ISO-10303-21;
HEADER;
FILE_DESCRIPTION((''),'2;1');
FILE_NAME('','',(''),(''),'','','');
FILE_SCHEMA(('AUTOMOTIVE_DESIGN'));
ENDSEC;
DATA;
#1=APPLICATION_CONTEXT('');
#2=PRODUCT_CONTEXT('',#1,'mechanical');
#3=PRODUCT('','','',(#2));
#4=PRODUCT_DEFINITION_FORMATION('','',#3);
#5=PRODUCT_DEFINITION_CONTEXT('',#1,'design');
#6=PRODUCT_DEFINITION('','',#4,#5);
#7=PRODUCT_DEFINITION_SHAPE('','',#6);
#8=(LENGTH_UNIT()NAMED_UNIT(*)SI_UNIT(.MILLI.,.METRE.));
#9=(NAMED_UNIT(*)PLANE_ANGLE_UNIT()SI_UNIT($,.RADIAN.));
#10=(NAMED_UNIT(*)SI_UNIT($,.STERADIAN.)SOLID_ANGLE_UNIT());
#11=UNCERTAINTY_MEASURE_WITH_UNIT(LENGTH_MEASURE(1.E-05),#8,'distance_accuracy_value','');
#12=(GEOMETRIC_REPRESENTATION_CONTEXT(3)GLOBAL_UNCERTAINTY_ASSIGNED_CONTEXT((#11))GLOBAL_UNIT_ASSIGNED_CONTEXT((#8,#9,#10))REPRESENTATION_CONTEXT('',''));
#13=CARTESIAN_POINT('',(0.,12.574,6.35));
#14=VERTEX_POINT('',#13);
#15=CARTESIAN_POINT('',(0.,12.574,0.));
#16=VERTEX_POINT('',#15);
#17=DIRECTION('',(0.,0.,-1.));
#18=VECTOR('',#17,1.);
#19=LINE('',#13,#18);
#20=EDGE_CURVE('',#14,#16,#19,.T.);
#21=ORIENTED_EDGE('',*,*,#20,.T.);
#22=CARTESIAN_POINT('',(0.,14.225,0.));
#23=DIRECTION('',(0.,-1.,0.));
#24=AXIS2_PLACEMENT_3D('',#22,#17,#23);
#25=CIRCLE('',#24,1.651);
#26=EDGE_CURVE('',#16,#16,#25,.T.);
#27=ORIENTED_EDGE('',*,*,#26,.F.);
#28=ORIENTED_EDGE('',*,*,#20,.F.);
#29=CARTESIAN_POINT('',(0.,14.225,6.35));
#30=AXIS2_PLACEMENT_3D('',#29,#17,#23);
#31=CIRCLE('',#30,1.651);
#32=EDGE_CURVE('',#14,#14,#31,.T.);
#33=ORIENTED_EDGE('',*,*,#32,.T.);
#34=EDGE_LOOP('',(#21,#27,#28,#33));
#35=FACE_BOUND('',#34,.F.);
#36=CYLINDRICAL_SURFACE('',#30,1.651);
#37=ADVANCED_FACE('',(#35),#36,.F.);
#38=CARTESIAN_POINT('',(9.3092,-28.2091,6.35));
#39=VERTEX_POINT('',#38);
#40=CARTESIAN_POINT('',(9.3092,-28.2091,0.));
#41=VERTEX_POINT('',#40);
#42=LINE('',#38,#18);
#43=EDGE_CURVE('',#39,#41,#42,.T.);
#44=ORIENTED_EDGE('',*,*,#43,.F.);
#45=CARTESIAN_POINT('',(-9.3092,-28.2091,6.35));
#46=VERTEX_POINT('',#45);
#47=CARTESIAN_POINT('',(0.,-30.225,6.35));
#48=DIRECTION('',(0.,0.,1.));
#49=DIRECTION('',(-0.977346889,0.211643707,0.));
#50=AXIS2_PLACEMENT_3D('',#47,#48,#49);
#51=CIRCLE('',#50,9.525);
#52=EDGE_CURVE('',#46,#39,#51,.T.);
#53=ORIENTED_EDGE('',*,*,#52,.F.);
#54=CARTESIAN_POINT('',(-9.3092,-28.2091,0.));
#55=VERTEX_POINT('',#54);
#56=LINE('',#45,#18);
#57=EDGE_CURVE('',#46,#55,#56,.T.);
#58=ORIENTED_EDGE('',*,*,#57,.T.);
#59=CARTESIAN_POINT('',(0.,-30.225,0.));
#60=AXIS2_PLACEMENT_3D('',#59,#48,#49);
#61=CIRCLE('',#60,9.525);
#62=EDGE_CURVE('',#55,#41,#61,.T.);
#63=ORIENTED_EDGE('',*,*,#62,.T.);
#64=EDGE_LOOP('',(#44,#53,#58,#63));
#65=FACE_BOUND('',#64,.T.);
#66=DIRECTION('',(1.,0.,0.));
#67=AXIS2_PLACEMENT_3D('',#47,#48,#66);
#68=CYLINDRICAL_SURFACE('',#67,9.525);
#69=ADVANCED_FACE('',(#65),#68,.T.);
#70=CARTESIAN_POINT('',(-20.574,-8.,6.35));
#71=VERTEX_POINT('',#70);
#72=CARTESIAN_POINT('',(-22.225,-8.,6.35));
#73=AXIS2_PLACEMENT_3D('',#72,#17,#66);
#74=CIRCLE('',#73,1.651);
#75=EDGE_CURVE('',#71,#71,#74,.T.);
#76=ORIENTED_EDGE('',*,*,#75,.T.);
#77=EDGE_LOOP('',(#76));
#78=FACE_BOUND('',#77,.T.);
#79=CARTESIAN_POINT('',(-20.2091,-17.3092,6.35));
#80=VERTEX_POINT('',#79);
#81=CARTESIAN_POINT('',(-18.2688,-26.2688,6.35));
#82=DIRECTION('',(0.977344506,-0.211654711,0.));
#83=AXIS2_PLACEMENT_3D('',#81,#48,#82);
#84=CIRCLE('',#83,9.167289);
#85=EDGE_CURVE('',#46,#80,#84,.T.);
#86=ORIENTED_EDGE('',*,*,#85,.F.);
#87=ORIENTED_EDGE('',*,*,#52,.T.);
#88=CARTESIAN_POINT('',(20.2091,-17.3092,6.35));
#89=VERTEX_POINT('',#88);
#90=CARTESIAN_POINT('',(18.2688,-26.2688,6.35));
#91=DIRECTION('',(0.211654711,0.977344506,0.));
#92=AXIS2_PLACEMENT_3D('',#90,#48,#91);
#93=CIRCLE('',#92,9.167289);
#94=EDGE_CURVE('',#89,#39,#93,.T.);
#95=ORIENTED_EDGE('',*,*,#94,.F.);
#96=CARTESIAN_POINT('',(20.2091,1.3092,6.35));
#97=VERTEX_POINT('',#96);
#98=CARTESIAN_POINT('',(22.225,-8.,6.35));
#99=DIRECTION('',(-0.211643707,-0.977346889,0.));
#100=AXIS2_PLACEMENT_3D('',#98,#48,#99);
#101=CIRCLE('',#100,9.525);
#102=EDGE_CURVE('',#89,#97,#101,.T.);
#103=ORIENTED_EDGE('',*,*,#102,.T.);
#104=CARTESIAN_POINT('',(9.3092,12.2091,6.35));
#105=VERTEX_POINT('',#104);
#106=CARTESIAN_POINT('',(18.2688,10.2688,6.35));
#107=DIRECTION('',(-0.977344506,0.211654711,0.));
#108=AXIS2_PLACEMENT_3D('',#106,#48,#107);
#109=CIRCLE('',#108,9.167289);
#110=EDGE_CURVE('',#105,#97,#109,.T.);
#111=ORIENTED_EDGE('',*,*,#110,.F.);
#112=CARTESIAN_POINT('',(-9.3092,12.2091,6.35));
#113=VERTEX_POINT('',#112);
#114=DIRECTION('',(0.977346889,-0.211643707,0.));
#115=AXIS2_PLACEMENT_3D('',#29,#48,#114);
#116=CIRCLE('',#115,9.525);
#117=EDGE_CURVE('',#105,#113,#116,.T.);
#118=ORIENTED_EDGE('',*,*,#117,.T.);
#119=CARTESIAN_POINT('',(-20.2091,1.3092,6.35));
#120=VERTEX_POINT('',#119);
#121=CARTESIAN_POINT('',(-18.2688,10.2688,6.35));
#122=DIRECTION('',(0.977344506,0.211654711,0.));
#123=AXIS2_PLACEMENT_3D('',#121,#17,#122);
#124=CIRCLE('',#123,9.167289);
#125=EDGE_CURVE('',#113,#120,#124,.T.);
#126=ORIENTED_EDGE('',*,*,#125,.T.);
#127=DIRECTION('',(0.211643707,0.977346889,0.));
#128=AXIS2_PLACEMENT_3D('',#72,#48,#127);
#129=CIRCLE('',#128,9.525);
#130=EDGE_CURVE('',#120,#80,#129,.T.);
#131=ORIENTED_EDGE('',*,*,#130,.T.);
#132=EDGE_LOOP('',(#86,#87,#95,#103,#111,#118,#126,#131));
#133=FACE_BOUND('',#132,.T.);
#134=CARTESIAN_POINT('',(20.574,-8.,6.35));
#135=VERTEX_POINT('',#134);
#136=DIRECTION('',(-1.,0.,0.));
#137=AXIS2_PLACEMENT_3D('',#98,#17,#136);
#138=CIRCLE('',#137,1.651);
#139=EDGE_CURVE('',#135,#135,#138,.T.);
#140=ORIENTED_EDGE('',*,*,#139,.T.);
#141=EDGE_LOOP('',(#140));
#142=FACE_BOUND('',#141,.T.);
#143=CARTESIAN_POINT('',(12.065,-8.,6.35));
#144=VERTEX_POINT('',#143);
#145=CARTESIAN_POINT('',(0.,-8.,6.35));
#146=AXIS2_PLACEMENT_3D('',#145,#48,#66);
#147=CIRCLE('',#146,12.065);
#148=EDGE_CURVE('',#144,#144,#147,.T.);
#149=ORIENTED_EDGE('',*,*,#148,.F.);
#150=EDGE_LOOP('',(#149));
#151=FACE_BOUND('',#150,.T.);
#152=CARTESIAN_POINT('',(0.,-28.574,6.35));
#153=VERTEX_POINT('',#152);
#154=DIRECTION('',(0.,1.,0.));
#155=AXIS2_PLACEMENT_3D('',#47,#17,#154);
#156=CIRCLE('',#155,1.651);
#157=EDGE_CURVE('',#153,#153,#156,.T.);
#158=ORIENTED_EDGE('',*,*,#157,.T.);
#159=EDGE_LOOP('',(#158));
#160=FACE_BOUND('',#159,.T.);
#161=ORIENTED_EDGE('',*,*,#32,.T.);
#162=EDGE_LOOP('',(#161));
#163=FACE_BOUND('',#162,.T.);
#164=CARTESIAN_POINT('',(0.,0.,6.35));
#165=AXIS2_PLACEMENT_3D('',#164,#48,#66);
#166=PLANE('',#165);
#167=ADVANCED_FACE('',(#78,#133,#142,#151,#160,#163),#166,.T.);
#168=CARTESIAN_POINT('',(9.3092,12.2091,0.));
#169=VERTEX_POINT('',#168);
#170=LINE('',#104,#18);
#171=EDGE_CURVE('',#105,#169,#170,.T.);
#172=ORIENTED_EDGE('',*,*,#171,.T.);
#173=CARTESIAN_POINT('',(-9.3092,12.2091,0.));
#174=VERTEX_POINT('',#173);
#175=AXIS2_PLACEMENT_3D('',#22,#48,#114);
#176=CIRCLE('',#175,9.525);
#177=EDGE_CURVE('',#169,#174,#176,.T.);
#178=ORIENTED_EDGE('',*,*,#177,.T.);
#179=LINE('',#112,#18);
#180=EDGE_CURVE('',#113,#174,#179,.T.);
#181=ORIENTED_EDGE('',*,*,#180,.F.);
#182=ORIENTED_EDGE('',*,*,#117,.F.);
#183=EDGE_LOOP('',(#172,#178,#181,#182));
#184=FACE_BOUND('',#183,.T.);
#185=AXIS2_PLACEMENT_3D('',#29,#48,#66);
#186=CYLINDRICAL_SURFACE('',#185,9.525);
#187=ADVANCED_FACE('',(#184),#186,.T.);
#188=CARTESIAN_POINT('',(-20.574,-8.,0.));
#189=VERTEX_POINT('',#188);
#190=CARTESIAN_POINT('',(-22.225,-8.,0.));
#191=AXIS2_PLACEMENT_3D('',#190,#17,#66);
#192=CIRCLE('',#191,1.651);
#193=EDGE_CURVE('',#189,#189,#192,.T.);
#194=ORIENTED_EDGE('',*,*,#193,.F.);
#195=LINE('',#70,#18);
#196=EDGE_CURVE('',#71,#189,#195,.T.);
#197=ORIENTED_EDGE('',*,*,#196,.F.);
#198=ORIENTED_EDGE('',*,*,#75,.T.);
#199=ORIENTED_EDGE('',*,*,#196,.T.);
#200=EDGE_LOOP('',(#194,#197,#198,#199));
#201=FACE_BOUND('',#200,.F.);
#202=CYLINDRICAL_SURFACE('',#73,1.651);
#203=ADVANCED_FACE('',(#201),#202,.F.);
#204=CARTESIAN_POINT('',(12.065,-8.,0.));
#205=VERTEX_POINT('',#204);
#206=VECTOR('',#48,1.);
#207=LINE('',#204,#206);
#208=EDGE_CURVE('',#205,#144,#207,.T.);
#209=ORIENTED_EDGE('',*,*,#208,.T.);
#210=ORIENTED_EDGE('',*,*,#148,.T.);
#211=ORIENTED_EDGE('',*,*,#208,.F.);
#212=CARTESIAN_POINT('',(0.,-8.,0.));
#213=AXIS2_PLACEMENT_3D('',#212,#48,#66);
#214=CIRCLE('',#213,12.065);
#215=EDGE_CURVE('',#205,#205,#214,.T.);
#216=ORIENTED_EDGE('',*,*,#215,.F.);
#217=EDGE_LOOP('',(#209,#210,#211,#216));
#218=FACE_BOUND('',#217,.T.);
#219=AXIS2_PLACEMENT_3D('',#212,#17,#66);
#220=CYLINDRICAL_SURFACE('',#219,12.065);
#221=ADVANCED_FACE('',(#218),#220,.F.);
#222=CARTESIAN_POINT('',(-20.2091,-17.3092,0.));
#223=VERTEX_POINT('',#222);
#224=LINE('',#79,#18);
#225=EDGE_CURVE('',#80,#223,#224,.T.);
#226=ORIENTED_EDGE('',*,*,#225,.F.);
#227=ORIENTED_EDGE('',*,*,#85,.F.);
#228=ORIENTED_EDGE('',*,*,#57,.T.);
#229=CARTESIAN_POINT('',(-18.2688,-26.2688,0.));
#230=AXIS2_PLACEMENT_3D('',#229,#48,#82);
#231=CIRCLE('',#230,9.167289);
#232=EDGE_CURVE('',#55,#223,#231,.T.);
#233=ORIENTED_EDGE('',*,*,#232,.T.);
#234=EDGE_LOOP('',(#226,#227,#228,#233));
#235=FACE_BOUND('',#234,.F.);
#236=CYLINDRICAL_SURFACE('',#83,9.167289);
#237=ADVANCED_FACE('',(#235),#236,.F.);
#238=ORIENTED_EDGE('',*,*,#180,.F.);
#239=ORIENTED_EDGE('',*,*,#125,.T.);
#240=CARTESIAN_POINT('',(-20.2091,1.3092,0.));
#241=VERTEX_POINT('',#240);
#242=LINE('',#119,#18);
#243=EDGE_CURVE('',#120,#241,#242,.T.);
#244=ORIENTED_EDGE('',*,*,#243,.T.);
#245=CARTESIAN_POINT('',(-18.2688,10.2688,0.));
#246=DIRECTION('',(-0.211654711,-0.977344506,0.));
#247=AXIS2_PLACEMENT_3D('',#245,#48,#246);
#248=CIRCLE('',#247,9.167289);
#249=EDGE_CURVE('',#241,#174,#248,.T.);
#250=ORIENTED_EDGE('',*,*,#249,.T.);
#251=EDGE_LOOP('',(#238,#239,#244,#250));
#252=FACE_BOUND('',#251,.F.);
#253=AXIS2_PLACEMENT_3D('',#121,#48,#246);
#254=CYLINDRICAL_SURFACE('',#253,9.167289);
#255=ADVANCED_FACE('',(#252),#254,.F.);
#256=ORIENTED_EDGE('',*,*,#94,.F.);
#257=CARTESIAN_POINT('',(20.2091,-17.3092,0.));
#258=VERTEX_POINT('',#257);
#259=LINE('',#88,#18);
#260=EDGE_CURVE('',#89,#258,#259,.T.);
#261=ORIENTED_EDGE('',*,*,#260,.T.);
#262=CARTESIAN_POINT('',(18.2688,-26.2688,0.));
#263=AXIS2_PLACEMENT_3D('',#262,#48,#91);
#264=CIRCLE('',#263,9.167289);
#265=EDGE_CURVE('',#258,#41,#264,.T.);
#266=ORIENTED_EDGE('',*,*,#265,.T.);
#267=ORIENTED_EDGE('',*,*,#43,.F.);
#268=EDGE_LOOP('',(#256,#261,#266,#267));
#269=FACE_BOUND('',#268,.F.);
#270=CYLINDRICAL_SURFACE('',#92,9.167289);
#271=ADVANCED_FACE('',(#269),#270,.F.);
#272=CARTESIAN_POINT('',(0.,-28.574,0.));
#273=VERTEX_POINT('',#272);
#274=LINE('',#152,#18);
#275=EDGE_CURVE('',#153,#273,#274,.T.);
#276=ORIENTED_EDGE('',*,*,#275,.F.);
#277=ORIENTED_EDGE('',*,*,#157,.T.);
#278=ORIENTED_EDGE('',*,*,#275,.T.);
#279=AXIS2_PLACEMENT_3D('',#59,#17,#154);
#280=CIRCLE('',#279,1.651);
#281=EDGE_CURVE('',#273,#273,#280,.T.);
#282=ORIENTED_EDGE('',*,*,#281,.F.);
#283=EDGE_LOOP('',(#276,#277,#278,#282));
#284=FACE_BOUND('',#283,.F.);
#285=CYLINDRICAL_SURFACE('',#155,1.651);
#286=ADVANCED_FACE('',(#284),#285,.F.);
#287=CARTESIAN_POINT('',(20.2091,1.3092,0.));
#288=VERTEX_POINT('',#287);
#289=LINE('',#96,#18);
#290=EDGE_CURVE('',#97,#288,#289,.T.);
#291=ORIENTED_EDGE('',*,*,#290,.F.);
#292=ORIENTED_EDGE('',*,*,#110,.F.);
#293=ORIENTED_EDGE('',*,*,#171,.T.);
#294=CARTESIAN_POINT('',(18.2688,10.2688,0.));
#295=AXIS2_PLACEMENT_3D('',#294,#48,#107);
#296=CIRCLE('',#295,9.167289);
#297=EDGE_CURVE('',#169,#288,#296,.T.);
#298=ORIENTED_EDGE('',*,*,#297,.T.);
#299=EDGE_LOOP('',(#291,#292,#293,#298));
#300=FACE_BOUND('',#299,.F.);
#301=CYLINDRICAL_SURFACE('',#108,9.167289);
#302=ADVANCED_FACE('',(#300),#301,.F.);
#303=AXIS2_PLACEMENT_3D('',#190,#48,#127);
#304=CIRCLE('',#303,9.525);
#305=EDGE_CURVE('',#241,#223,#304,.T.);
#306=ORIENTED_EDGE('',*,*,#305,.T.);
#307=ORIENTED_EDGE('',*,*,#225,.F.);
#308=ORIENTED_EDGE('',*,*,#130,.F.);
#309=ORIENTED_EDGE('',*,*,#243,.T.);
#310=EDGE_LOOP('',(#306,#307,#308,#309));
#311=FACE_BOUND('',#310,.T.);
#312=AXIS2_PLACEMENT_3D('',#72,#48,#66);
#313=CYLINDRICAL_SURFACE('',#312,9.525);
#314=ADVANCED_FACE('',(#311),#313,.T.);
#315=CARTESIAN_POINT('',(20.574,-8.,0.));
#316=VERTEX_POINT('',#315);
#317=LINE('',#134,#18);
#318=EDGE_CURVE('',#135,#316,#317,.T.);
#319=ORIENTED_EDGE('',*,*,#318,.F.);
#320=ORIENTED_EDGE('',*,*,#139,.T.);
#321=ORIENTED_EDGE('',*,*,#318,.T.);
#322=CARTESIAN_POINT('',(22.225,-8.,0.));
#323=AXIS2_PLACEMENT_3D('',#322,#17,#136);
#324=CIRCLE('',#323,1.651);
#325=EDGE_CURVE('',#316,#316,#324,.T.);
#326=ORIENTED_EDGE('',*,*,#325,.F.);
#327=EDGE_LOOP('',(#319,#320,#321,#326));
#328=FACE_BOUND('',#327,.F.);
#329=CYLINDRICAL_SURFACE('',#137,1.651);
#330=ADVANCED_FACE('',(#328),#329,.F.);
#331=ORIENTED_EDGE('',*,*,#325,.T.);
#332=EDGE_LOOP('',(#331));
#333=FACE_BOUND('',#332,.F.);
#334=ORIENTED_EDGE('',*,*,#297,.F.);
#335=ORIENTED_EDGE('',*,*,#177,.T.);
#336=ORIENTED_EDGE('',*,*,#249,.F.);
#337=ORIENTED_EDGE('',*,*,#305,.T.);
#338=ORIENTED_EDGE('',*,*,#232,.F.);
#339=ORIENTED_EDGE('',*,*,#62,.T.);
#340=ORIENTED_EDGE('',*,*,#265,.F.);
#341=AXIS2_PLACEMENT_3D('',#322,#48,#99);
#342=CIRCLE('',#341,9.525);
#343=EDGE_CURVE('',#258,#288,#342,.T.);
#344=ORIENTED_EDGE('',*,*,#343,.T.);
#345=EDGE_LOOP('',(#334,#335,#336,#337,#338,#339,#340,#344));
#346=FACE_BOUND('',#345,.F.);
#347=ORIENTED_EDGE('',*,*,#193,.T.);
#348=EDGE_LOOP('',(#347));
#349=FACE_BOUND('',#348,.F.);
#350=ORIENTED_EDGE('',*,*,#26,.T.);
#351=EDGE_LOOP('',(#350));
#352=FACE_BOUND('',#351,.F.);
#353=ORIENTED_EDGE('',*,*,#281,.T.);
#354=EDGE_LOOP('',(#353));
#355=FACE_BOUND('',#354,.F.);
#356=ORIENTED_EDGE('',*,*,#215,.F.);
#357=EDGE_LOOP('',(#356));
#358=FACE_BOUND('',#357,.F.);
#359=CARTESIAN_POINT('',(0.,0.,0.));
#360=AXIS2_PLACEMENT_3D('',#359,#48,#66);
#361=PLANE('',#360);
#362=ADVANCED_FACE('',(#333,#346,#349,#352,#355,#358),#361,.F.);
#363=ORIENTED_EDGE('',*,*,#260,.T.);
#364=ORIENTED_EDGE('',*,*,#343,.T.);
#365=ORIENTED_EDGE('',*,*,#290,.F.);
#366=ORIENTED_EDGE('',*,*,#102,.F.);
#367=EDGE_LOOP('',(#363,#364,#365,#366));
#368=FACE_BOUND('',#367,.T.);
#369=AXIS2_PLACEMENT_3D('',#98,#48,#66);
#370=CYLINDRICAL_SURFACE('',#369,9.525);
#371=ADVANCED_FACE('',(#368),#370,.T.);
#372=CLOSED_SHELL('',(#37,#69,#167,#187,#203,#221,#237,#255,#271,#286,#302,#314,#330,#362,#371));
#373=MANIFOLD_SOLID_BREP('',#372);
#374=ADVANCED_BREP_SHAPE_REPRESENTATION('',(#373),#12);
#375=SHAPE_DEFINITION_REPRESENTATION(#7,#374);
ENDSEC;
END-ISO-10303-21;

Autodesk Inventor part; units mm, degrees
ref_plane "YZ Plane" through (0, 0, 0) normal (1, 0, 0) x (0, 1, 0)
ref_plane "XZ Plane" through (0, 0, 0) normal (0, 1, 0) x (-1, 0, 0)
ref_plane "XY Plane" through (0, 0, 0) normal (0, 0, 1) x (1, 0, 0)
sketch "Sketch1" plane through (0, 0, 0) normal (0, 0, 1) x (1, 0, 0)
  arc A0 (9.4191, 43.3754) -> (11.0761, 45.5644) centre (1.4765, 51.109) ccw projected
  arc A1 (2.6827, 44.1627) -> (9.4191, 43.3754) centre (6.35, 46.3277) ccw projected
  arc A2 (1.5753, 46.6749) -> (2.6827, 44.1627) centre (12.1948, 49.8562) ccw projected
  arc A3 (-9.4191, 43.3754) -> (-2.6827, 44.1627) centre (-6.35, 46.3277) ccw projected
  arc A4 (-11.0761, 45.5644) -> (-9.4191, 43.3754) centre (-1.4765, 51.109) ccw projected
  arc A5 (-21.0132, 39.8183) -> (-14.64, 42.138) centre (-18.7077, 43.3989) ccw projected
  arc A6 (-23.1303, 41.5662) -> (-21.0132, 39.8183) centre (-15.0682, 49.1752) ccw projected
  arc A7 (-31.4745, 33.6834) -> (-25.808, 37.4103) centre (-30.0568, 37.6992) ccw projected
  arc A8 (-33.9376, 34.896) -> (-31.4745, 33.6834) centre (-27.8475, 44.1591) ccw projected
  arc A9 (-40.2389, 25.3013) -> (-35.5847, 30.2346) centre (-39.7856, 29.5357) ccw projected
  arc A10 (-42.9153, 25.9131) -> (-40.2389, 25.3013) centre (-39.1256, 36.331) ccw projected
  arc A11 (-46.8341, 15.1239) -> (-43.443, 20.9975) centre (-47.3695, 19.3488) ccw projected
  arc A12 (-49.5794, 15.1021) -> (-46.8341, 15.1239) centre (-48.2944, 26.1131) ccw projected
  arc A13 (-50.9044, 3.6999) -> (-48.9593, 10.1973) centre (-52.3997, 7.6874) ccw projected
  arc A14 (-53.5707, 3.0455) -> (-50.9044, 3.6999) centre (-54.8597, 14.0561) ccw projected
  arc A15 (-52.2305, -8.3548) -> (-51.8361, -1.584) centre (-54.605, -4.8196) ccw projected
  arc A16 (-54.674, -9.6064) -> (-52.2305, -8.3548) centre (-58.4674, 0.8101) ccw projected
  arc A17 (-50.7408, -20.3904) -> (-51.9185, -13.7112) centre (-53.8666, -17.4981) ccw projected
  arc A18 (-52.8298, -22.1718) -> (-50.7408, -20.3904) centre (-58.9232, -12.9109) ccw projected
  arc A19 (-46.5156, -31.7581) -> (-49.2019, -25.5305) centre (-50.2242, -29.6646) ccw projected
  arc A20 (-48.1375, -33.9732) -> (-46.5156, -31.7581) centre (-56.2023, -26.3671) ccw projected
  arc A21 (-39.7828, -41.8449) -> (-43.8329, -36.4047) centre (-43.8742, -40.6631) ccw projected
  arc A22 (-40.8501, -44.3744) -> (-39.7828, -41.8449) centre (-50.4517, -38.8332) ccw projected
  arc A23 (-30.9053, -50.1072) -> (-36.1008, -45.7476) centre (-35.1589, -49.9008) ccw projected
  arc A24 (-31.3605, -52.8146) -> (-30.9053, -50.1072) centre (-41.9811, -49.637) ccw projected
  arc A25 (-20.3617, -56.0994) -> (-26.4225, -53.0555) centre (-24.5482, -56.8795) ccw projected
  arc A26 (-20.1802, -58.8388) -> (-20.3617, -56.0994) centre (-31.2473, -58.1962) ccw projected
  arc A27 (-8.7203, -59.4986) -> (-15.3198, -57.9345) centre (-12.6141, -61.2232) ccw projected
  arc A28 (-7.912, -62.1223) -> (-8.7203, -59.4986) centre (-18.829, -64.0493) ccw projected
  arc A29 (3.3911, -60.1215) -> (-3.3911, -60.1215) centre (0, -62.6976) ccw projected
  arc A30 (4.7827, -62.4881) -> (3.3911, -60.1215) centre (-5.3956, -66.8807) ccw projected
  arc A31 (15.3198, -57.9345) -> (8.7203, -59.4986) centre (12.6141, -61.2232) ccw projected
  arc A32 (17.2196, -59.9164) -> (15.3198, -57.9345) centre (8.3287, -66.5379) ccw projected
  arc A33 (26.4225, -53.0555) -> (20.3617, -56.0994) centre (24.5482, -56.8795) ccw projected
  arc A34 (28.7282, -54.5458) -> (26.4225, -53.0555) centre (21.6039, -63.0393) ccw projected
  arc A35 (36.1008, -45.7476) -> (30.9053, -50.1072) centre (35.1589, -49.9008) ccw projected
  arc A36 (38.688, -46.666) -> (36.1008, -45.7476) centre (33.7145, -56.5735) ccw projected
  arc A37 (43.8329, -36.4047) -> (39.7828, -41.8449) centre (43.8742, -40.6631) ccw projected
  arc A38 (46.5622, -36.7017) -> (43.8329, -36.4047) centre (44.0076, -47.4891) ccw projected
  arc A39 (49.2019, -25.5305) -> (46.5156, -31.7581) centre (50.2242, -29.6646) ccw projected
  arc A40 (51.9262, -25.19) -> (49.2019, -25.5305) centre (51.9282, -36.2758) ccw projected
  arc A41 (51.9185, -13.7112) -> (50.7408, -20.3904) centre (53.8666, -17.4981) ccw projected
  arc A42 (54.4908, -12.7517) -> (51.9185, -13.7112) centre (57.0493, -23.5382) ccw projected
  arc A43 (51.8361, -1.584) -> (52.2305, -8.3548) centre (54.605, -4.8196) ccw projected
  arc A44 (54.1178, -0.0572) -> (51.8361, -1.584) centre (59.0949, -9.9629) ccw projected
  arc A45 (48.9593, 10.1973) -> (50.9044, 3.6999) centre (52.3997, 7.6874) ccw projected
  arc A46 (50.8273, 12.2092) -> (48.9593, 10.1973) centre (57.9546, 3.7182) ccw projected
  arc A47 (43.443, 20.9975) -> (46.8341, 15.1239) centre (47.3695, 19.3488) ccw projected
  arc A48 (44.7967, 23.386) -> (43.443, 20.9975) centre (53.69, 16.7676) ccw projected
  arc A49 (35.5847, 30.2346) -> (40.2389, 25.3013) centre (39.7856, 29.5357) ccw projected
  arc A50 (36.3511, 32.8708) -> (35.5847, 30.2346) centre (46.531, 28.4818) ccw projected
  arc A51 (25.808, 37.4103) -> (31.4745, 33.6834) centre (30.0568, 37.6992) ccw projected
  arc A52 (25.9458, 40.1523) -> (25.808, 37.4103) centre (36.8635, 38.2292) ccw projected
  arc A53 (14.64, 42.138) -> (21.0132, 39.8183) centre (18.7077, 43.3989) ccw projected
  arc A54 (14.1417, 44.8378) -> (14.64, 42.138) centre (25.2086, 45.4844) ccw projected
  circle A55 centre (0, -8) radius 12.065
  circle A56 centre (0, -8) radius 22.225
  circle A57 centre (0, -8) radius 31.75
  circle A58 centre (22.225, -8) radius 1.27
  circle A59 centre (0, -30.225) radius 1.27
  circle A60 centre (-22.225, -8) radius 1.27
  circle A61 centre (0, 14.225) radius 1.27
  circle A62 centre (0, -8) radius 12.065 projected
  line L0 (1.4863, 46.9888) -> (1.1981, 48.0928) projected
  arc A63 (1.1981, 48.0928) -> (0.2767, 50.1653) centre (-5.564, 46.3277) ccw projected
  arc A64 (-2.6827, 44.1627) -> (-1.5753, 46.6749) centre (-12.1948, 49.8562) ccw projected
  line L1 (-11.2351, 45.8493) -> (-11.7701, 46.8571) projected
  arc A65 (-11.7701, 46.8571) -> (-13.1446, 48.6613) centre (-17.9429, 43.5802) ccw projected
  arc A66 (-14.64, 42.138) -> (-14.1417, 44.8378) centre (-25.2086, 45.4844) ccw projected
  line L2 (-23.3508, 41.8068) -> (-24.1038, 42.6641) projected
  arc A67 (-24.1038, 42.6641) -> (-25.8573, 44.1026) centre (-29.3544, 38.0519) ccw projected
  arc A68 (-25.808, 37.4103) -> (-25.9458, 40.1523) centre (-36.8635, 38.2292) ccw projected
  line L3 (-34.2076, 35.0792) -> (-35.138, 35.7397) projected
  arc A69 (-35.138, 35.7397) -> (-37.176, 36.7351) centre (-39.1835, 30.041) ccw projected
  arc A70 (-35.5847, 30.2346) -> (-36.3511, 32.8708) centre (-46.531, 28.4818) ccw projected
  line L4 (-43.2203, 26.0292) -> (-44.2779, 26.4573) projected
  arc A71 (-44.2779, 26.4573) -> (-46.4905, 26.9559) centre (-46.9001, 19.9793) ccw projected
  arc A72 (-43.443, 20.9975) -> (-44.7967, 23.386) centre (-53.69, 16.7676) ccw projected
  line L5 (-49.9029, 15.1447) -> (-51.0308, 15.3173) projected
  arc A73 (-51.0308, 15.3173) -> (-53.2988, 15.2922) centre (-52.0884, 8.4092) ccw projected
  arc A74 (-48.9593, 10.1973) -> (-50.8273, 12.2092) centre (-57.9546, 3.7182) ccw projected
  line L6 (-53.8953, 3.0124) -> (-55.0326, 2.9203) projected
  arc A75 (-55.0326, 2.9203) -> (-57.2336, 2.3728) centre (-54.4685, -4.0456) ccw projected
  arc A76 (-51.8361, -1.584) -> (-54.1178, -0.0572) centre (-59.0949, -9.9629) ccw projected
  line L7 (-54.9822, -9.7136) -> (-56.0676, -10.0655) projected
  arc A77 (-56.0676, -10.0655) -> (-58.083, -11.1058) centre (-53.9123, -16.7135) ccw projected
  arc A78 (-51.9185, -13.7112) -> (-54.4908, -12.7517) centre (-57.0493, -23.5382) ccw projected
  line L8 (-53.105, -22.3471) -> (-54.08, -22.9399) projected
  arc A79 (-54.08, -22.9399) -> (-55.8011, -24.4169) centre (-50.4496, -28.9116) ccw projected
  arc A80 (-49.2019, -25.5305) -> (-51.9262, -25.19) centre (-51.9282, -36.2758) ccw projected
  line L9 (-48.3648, -34.2073) -> (-49.1769, -35.0089) projected
  arc A81 (-49.1769, -35.0089) -> (-50.511, -36.843) centre (-44.2672, -39.9824) ccw projected
  arc A82 (-43.8329, -36.4047) -> (-46.5622, -36.7017) centre (-44.0076, -47.4891) ccw projected
  line L10 (-41.0173, -44.6545) -> (-41.6226, -45.6218) projected
  arc A83 (-41.6226, -45.6218) -> (-42.4978, -47.7142) centre (-35.6983, -49.3291) ccw projected
  arc A84 (-36.1008, -45.7476) -> (-38.688, -46.666) centre (-33.7145, -56.5735) ccw projected
  line L11 (-31.4586, -53.1258) -> (-31.8245, -54.2065) projected
  arc A85 (-31.8245, -54.2065) -> (-32.1936, -56.4444) centre (-25.2049, -56.4476) ccw projected
  arc A86 (-26.4225, -53.0555) -> (-28.7282, -54.5458) centre (-21.6039, -63.0393) ccw projected
  line L12 (-20.2039, -59.1642) -> (-20.3107, -60.3003) projected
  arc A87 (-20.3107, -60.3003) -> (-20.1537, -62.5629) centre (-13.3527, -60.9544) ccw projected
  arc A88 (-15.3198, -57.9345) -> (-17.2196, -59.9164) centre (-8.3287, -66.5379) ccw projected
  line L13 (-7.86, -62.4444) -> (-7.7019, -63.5745) projected
  arc A89 (-7.7019, -63.5745) -> (-7.0274, -65.7399) centre (-0.7807, -62.6063) ccw projected
  arc A90 (-3.3911, -60.1215) -> (-4.7827, -62.4881) centre (5.3956, -66.8807) ccw projected
  line L14 (4.9076, -62.7895) -> (5.322, -63.8527) projected
  arc A91 (5.322, -63.8527) -> (6.4777, -65.8042) centre (11.8334, -61.3144) ccw projected
  arc A92 (8.7203, -59.4986) -> (7.912, -62.1223) centre (18.829, -64.0493) ccw projected
  line L15 (17.4107, -60.1809) -> (18.0591, -61.1198) projected
  arc A93 (18.0591, -61.1198) -> (19.6337, -62.7522) centre (23.8096, -57.1484) ccw projected
  arc A94 (20.3617, -56.0994) -> (20.1802, -58.8388) centre (31.2473, -58.1962) ccw projected
  line L16 (28.9751, -54.7592) -> (29.8226, -55.5232) projected
  arc A95 (29.8226, -55.5232) -> (31.7312, -56.7485) centre (34.5022, -50.3327) ccw projected
  arc A96 (30.9053, -50.1072) -> (31.3605, -52.8146) centre (41.9811, -49.637) ccw projected
  line L17 (38.9775, -46.8167) -> (39.9783, -47.3647) projected
  arc A97 (39.9783, -47.3647) -> (42.118, -48.1167) centre (43.3348, -41.2348) ccw projected
  arc A98 (39.7828, -41.8449) -> (40.8501, -44.3744) centre (50.4517, -38.8332) ccw projected
  line L18 (46.8786, -36.7815) -> (47.9788, -37.084) projected
  arc A99 (47.9788, -37.084) -> (50.2343, -37.3223) centre (49.8312, -30.3453) ccw projected
  arc A100 (46.5156, -31.7581) -> (48.1375, -33.9732) centre (56.2023, -26.3671) ccw projected
  line L19 (52.2524, -25.1948) -> (53.3927, -25.2353) projected
  arc A101 (53.3927, -25.2353) -> (55.6424, -24.9471) centre (53.6412, -18.2511) ccw projected
  arc A102 (50.7408, -20.3904) -> (52.8298, -22.1718) centre (58.9232, -12.9109) ccw projected
  line L20 (54.8093, -12.6811) -> (55.9283, -12.4575) projected
  arc A103 (55.9283, -12.4575) -> (58.0508, -11.6583) centre (54.5593, -5.6043) ccw projected
  arc A104 (52.2305, -8.3548) -> (54.674, -9.6064) centre (58.4674, 0.8101) ccw projected
  line L21 (54.4115, 0.085) -> (55.4487, 0.5606) projected
  arc A105 (55.4487, 0.5606) -> (57.3297, 1.8278) centre (52.5362, 6.9134) ccw projected
  arc A106 (50.9044, 3.6999) -> (53.5707, 3.0455) centre (54.8597, 14.0561) ccw projected
  line L22 (51.0803, 12.4152) -> (51.9799, 13.1172) projected
  arc A107 (51.9799, 13.1172) -> (53.518, 14.784) centre (47.6808, 18.6271) ccw projected
  arc A108 (46.8341, 15.1239) -> (49.5794, 15.1021) centre (48.2944, 26.1131) ccw projected
  line L23 (44.9953, 23.6449) -> (45.7088, 24.5353) projected
  arc A109 (45.7088, 24.5353) -> (46.821, 26.512) centre (40.2549, 28.9053) ccw projected
  arc A110 (40.2389, 25.3013) -> (42.9153, 25.9131) centre (39.1256, 36.331) ccw projected
  line L24 (36.4847, 33.1685) -> (36.9736, 34.1995) projected
  arc A111 (36.9736, 34.1995) -> (37.5999, 36.3794) centre (30.6589, 37.1939) ccw projected
  arc A112 (31.4745, 33.6834) -> (33.9376, 34.896) centre (27.8475, 44.1591) ccw projected
  line L25 (26.0071, 40.4728) -> (26.2451, 41.5887) projected
  arc A113 (26.2451, 41.5887) -> (26.3518, 43.8543) centre (19.4101, 43.0461) ccw projected
  arc A114 (21.0132, 39.8183) -> (23.1303, 41.5662) centre (15.0682, 49.1752) ccw projected
  line L26 (14.1275, 45.1638) -> (14.1017, 46.3046) projected
  ellipse E0 centre (-12.8803, 49.8016) end of major axis (-24.6386, 49.2708) minor radius 11.3649 (-1.5753, 46.6749) -> (-1.4863, 46.9888) ccw projected
  ellipse E1 centre (-25.8631, 45.2731) end of major axis (-37.1821, 42.045) minor radius 11.3649 (-14.1417, 44.8378) -> (-14.1275, 45.1638) ccw projected
  ellipse E2 centre (-37.4516, 37.8727) end of major axis (-47.721, 32.1213) minor radius 11.3649 (-25.9458, 40.1523) -> (-26.0071, 40.4728) ccw projected
  ellipse E3 centre (-47.0211, 27.9993) end of major axis (-55.6873, 20.0346) minor radius 11.3649 (-36.3511, 32.8708) -> (-36.4847, 33.1685) ccw projected
  ellipse E4 centre (-54.0556, 16.1851) end of major axis (-60.6514, 6.4366) minor radius 11.3649 (-44.7967, 23.386) -> (-44.9953, 23.6449) ccw projected
  ellipse E5 centre (-58.176, 3.0671) end of major axis (-62.3459, -7.9398) minor radius 11.3649 (-50.8273, 12.2092) -> (-51.0803, 12.4152) ccw projected
  ellipse E6 centre (-59.1601, -10.6475) end of major axis (-60.6792, -22.3193) minor radius 11.3649 (-54.1178, -0.0572) -> (-54.4115, 0.085) ccw projected
  ellipse E7 centre (-56.9549, -24.2194) end of major axis (-55.7413, -35.9269) minor radius 11.3649 (-54.4908, -12.7517) -> (-54.8093, -12.6811) ccw projected
  ellipse E8 centre (-51.6792, -36.9169) end of major axis (-47.7984, -48.029) minor radius 11.3649 (-51.9262, -25.19) -> (-52.2524, -25.1948) ccw projected
  ellipse E9 centre (-43.6175, -48.0555) end of major axis (-37.2787, -57.9731) minor radius 11.3649 (-46.5622, -36.7017) -> (-46.8786, -36.7815) ccw projected
  ellipse E10 centre (-33.2043, -57.0347) end of major axis (-24.7492, -65.2231) minor radius 11.3649 (-38.688, -46.666) -> (-38.9775, -46.8167) ccw projected
  ellipse E11 centre (-21.0011, -63.3704) end of major axis (-10.8856, -69.3882) minor radius 11.3649 (-28.7282, -54.5458) -> (-28.9751, -54.7592) ccw projected
  ellipse E12 centre (-7.6657, -66.7211) end of major axis (3.565, -70.2439) minor radius 11.3649 (-17.2196, -59.9164) -> (-17.4107, -60.1809) ccw projected
  ellipse E13 centre (6.0829, -66.9061) end of major axis (17.8233, -67.7439) minor radius 11.3649 (-4.7827, -62.4881) -> (-4.9076, -62.7895) ccw projected
  ellipse E14 centre (19.5036, -63.9154) end of major axis (31.1208, -62.0232) minor radius 11.3649 (7.912, -62.1223) -> (7.86, -62.4444) ccw projected
  ellipse E15 centre (31.8729, -57.9104) end of major axis (42.7405, -53.3901) minor radius 11.3649 (20.1802, -58.8388) -> (20.2039, -59.1642) ccw projected
  ellipse E16 centre (42.5239, -49.2147) end of major axis (52.0561, -42.3099) minor radius 11.3649 (31.3605, -52.8146) -> (31.4586, -53.1258) ccw projected
  ellipse E17 centre (50.8824, -38.297) end of major axis (58.5653, -29.3801) minor radius 11.3649 (40.8501, -44.3744) -> (41.0173, -44.6545) ccw projected
  ellipse E18 centre (56.4978, -25.7461) end of major axis (61.9173, -15.2977) minor radius 11.3649 (48.1375, -33.9732) -> (48.3648, -34.2073) ccw projected
  ellipse E19 centre (59.0674, -12.2385) end of major axis (61.9313, -0.8219) minor radius 11.3649 (52.8298, -22.1718) -> (53.105, -22.3471) ccw projected
  ellipse E20 centre (58.4527, 1.4977) end of major axis (58.6065, 13.2669) minor radius 11.3649 (54.674, -9.6064) -> (54.9822, -9.7136) ccw projected
  ellipse E21 centre (54.6868, 14.7218) end of major axis (52.1223, 26.2093) minor radius 11.3649 (53.5707, 3.0455) -> (53.8953, 3.0124) ccw projected
  ellipse E22 centre (47.9727, 26.721) end of major axis (42.8281, 37.3074) minor radius 11.3649 (49.5794, 15.1021) -> (49.9029, 15.1447) ccw projected
  ellipse E23 centre (38.6724, 36.8483) end of major axis (31.2251, 45.963) minor radius 11.3649 (42.9153, 25.9131) -> (43.2203, 26.0292) ccw projected
  ellipse E24 centre (27.2872, 44.5579) end of major axis (17.9387, 51.7094) minor radius 11.3649 (33.9376, 34.896) -> (34.2076, 35.0792) ccw projected
  ellipse E25 centre (14.431, 49.4341) end of major axis (3.6852, 54.2369) minor radius 11.3649 (23.1303, 41.5662) -> (23.3508, 41.8068) ccw projected
  circle A115 centre (22.225, -8) radius 2.3812 projected
  circle A116 centre (0, 14.225) radius 2.3812 projected
  circle A117 centre (0, -30.225) radius 2.3812 projected
  circle A118 centre (-22.225, -8) radius 2.3812 projected
  ellipse E26 centre (12.8803, 49.8016) end of major axis (24.6386, 49.2708) minor radius 11.3649 (1.4863, 46.9888) -> (1.5753, 46.6749) ccw projected
  arc A119 (0.2767, 50.1653) -> (-0.2767, 50.1653) centre (0, -8) ccw projected
  arc A120 (-0.2767, 50.1653) -> (-1.1981, 48.0928) centre (5.564, 46.3277) ccw projected
  line L27 (-1.1981, 48.0928) -> (-1.4863, 46.9888) projected
  ellipse E27 centre (-0.7968, 51.214) end of major axis (10.7669, 53.4091) minor radius 11.3649 (-11.2351, 45.8493) -> (-11.0761, 45.5644) ccw projected
  arc A121 (-13.1446, 48.6613) -> (-13.6831, 48.5337) centre (0, -8) ccw projected
  arc A122 (-13.6831, 48.5337) -> (-14.1017, 46.3046) centre (-7.1148, 46.1465) ccw projected
  line L28 (-14.1017, 46.3046) -> (-14.1275, 45.1638) projected
  ellipse E28 centre (-14.431, 49.4341) end of major axis (-3.6852, 54.2369) minor radius 11.3649 (-23.3508, 41.8068) -> (-23.1303, 41.5662) ccw projected
  arc A123 (-25.8573, 44.1026) -> (-26.3518, 43.8543) centre (0, -8) ccw projected
  arc A124 (-26.3518, 43.8543) -> (-26.2451, 41.5887) centre (-19.4101, 43.0461) ccw projected
  line L29 (-26.2451, 41.5887) -> (-26.0071, 40.4728) projected
  ellipse E29 centre (-27.2872, 44.5579) end of major axis (-17.9387, 51.7094) minor radius 11.3649 (-34.2076, 35.0792) -> (-33.9376, 34.896) ccw projected
  arc A125 (-37.176, 36.7351) -> (-37.5999, 36.3794) centre (0, -8) ccw projected
  arc A126 (-37.5999, 36.3794) -> (-36.9736, 34.1995) centre (-30.6589, 37.1939) ccw projected
  line L30 (-36.9736, 34.1995) -> (-36.4847, 33.1685) projected
  ellipse E30 centre (-38.6724, 36.8483) end of major axis (-31.2251, 45.963) minor radius 11.3649 (-43.2203, 26.0292) -> (-42.9153, 25.9131) ccw projected
  arc A127 (-46.4905, 26.9559) -> (-46.821, 26.512) centre (0, -8) ccw projected
  arc A128 (-46.821, 26.512) -> (-45.7088, 24.5353) centre (-40.2549, 28.9053) ccw projected
  line L31 (-45.7088, 24.5353) -> (-44.9953, 23.6449) projected
  ellipse E31 centre (-47.9727, 26.721) end of major axis (-42.8281, 37.3074) minor radius 11.3649 (-49.9029, 15.1447) -> (-49.5794, 15.1021) ccw projected
  arc A129 (-53.2988, 15.2922) -> (-53.518, 14.784) centre (0, -8) ccw projected
  arc A130 (-53.518, 14.784) -> (-51.9799, 13.1172) centre (-47.6808, 18.6271) ccw projected
  line L32 (-51.9799, 13.1172) -> (-51.0803, 12.4152) projected
  ellipse E32 centre (-54.6868, 14.7218) end of major axis (-52.1223, 26.2093) minor radius 11.3649 (-53.8953, 3.0124) -> (-53.5707, 3.0455) ccw projected
  arc A131 (-57.2336, 2.3728) -> (-57.3297, 1.8278) centre (0, -8) ccw projected
  arc A132 (-57.3297, 1.8278) -> (-55.4487, 0.5606) centre (-52.5362, 6.9134) ccw projected
  line L33 (-55.4487, 0.5606) -> (-54.4115, 0.085) projected
  ellipse E33 centre (-58.4527, 1.4977) end of major axis (-58.6065, 13.2669) minor radius 11.3649 (-54.9822, -9.7136) -> (-54.674, -9.6064) ccw projected
  arc A133 (-58.083, -11.1058) -> (-58.0508, -11.6583) centre (0, -8) ccw projected
  arc A134 (-58.0508, -11.6583) -> (-55.9283, -12.4575) centre (-54.5593, -5.6043) ccw projected
  line L34 (-55.9283, -12.4575) -> (-54.8093, -12.6811) projected
  ellipse E34 centre (-59.0674, -12.2385) end of major axis (-61.9313, -0.8219) minor radius 11.3649 (-53.105, -22.3471) -> (-52.8298, -22.1718) ccw projected
  arc A135 (-55.8011, -24.4169) -> (-55.6424, -24.9471) centre (0, -8) ccw projected
  arc A136 (-55.6424, -24.9471) -> (-53.3927, -25.2353) centre (-53.6412, -18.2511) ccw projected
  line L35 (-53.3927, -25.2353) -> (-52.2524, -25.1948) projected
  ellipse E35 centre (-56.4978, -25.7461) end of major axis (-61.9173, -15.2977) minor radius 11.3649 (-48.3648, -34.2073) -> (-48.1375, -33.9732) ccw projected
  arc A137 (-50.511, -36.843) -> (-50.2343, -37.3223) centre (0, -8) ccw projected
  arc A138 (-50.2343, -37.3223) -> (-47.9788, -37.084) centre (-49.8312, -30.3453) ccw projected
  line L36 (-47.9788, -37.084) -> (-46.8786, -36.7815) projected
  ellipse E36 centre (-50.8824, -38.297) end of major axis (-58.5653, -29.3801) minor radius 11.3649 (-41.0173, -44.6545) -> (-40.8501, -44.3744) ccw projected
  arc A139 (-42.4978, -47.7142) -> (-42.118, -48.1167) centre (0, -8) ccw projected
  arc A140 (-42.118, -48.1167) -> (-39.9783, -47.3647) centre (-43.3348, -41.2348) ccw projected
  line L37 (-39.9783, -47.3647) -> (-38.9775, -46.8167) projected
  ellipse E37 centre (-42.5239, -49.2147) end of major axis (-52.0561, -42.3099) minor radius 11.3649 (-31.4586, -53.1258) -> (-31.3605, -52.8146) ccw projected
  arc A141 (-32.1936, -56.4444) -> (-31.7312, -56.7485) centre (0, -8) ccw projected
  arc A142 (-31.7312, -56.7485) -> (-29.8226, -55.5232) centre (-34.5022, -50.3327) ccw projected
  line L38 (-29.8226, -55.5232) -> (-28.9751, -54.7592) projected
  ellipse E38 centre (-31.8729, -57.9104) end of major axis (-42.7405, -53.3901) minor radius 11.3649 (-20.2039, -59.1642) -> (-20.1802, -58.8388) ccw projected
  arc A143 (-20.1537, -62.5629) -> (-19.6337, -62.7522) centre (0, -8) ccw projected
  arc A144 (-19.6337, -62.7522) -> (-18.0591, -61.1198) centre (-23.8096, -57.1484) ccw projected
  line L39 (-18.0591, -61.1198) -> (-17.4107, -60.1809) projected
  ellipse E39 centre (-19.5036, -63.9154) end of major axis (-31.1208, -62.0232) minor radius 11.3649 (-7.86, -62.4444) -> (-7.912, -62.1223) ccw projected
  arc A145 (-7.0274, -65.7399) -> (-6.4777, -65.8042) centre (0, -8) ccw projected
  arc A146 (-6.4777, -65.8042) -> (-5.322, -63.8527) centre (-11.8334, -61.3144) ccw projected
  line L40 (-5.322, -63.8527) -> (-4.9076, -62.7895) projected
  ellipse E40 centre (-6.0829, -66.9061) end of major axis (-17.8233, -67.7439) minor radius 11.3649 (4.9076, -62.7895) -> (4.7827, -62.4881) ccw projected
  arc A147 (6.4777, -65.8042) -> (7.0274, -65.7399) centre (0, -8) ccw projected
  arc A148 (7.0274, -65.7399) -> (7.7019, -63.5745) centre (0.7807, -62.6063) ccw projected
  line L41 (7.7019, -63.5745) -> (7.86, -62.4444) projected
  ellipse E41 centre (7.6657, -66.7211) end of major axis (-3.565, -70.2439) minor radius 11.3649 (17.4107, -60.1809) -> (17.2196, -59.9164) ccw projected
  arc A149 (19.6337, -62.7522) -> (20.1537, -62.5629) centre (0, -8) ccw projected
  arc A150 (20.1537, -62.5629) -> (20.3107, -60.3003) centre (13.3527, -60.9544) ccw projected
  line L42 (20.3107, -60.3003) -> (20.2039, -59.1642) projected
  ellipse E42 centre (21.0011, -63.3704) end of major axis (10.8856, -69.3882) minor radius 11.3649 (28.9751, -54.7592) -> (28.7282, -54.5458) ccw projected
  arc A151 (31.7312, -56.7485) -> (32.1936, -56.4444) centre (0, -8) ccw projected
  arc A152 (32.1936, -56.4444) -> (31.8245, -54.2065) centre (25.2049, -56.4476) ccw projected
  line L43 (31.8245, -54.2065) -> (31.4586, -53.1258) projected
  ellipse E43 centre (33.2043, -57.0347) end of major axis (24.7492, -65.2231) minor radius 11.3649 (38.9775, -46.8167) -> (38.688, -46.666) ccw projected
  arc A153 (42.118, -48.1167) -> (42.4978, -47.7142) centre (0, -8) ccw projected
  arc A154 (42.4978, -47.7142) -> (41.6226, -45.6218) centre (35.6983, -49.3291) ccw projected
  line L44 (41.6226, -45.6218) -> (41.0173, -44.6545) projected
  ellipse E44 centre (43.6175, -48.0555) end of major axis (37.2787, -57.9731) minor radius 11.3649 (46.8786, -36.7815) -> (46.5622, -36.7017) ccw projected
  arc A155 (50.2343, -37.3223) -> (50.511, -36.843) centre (0, -8) ccw projected
  arc A156 (50.511, -36.843) -> (49.1769, -35.0089) centre (44.2672, -39.9824) ccw projected
  line L45 (49.1769, -35.0089) -> (48.3648, -34.2073) projected
  ellipse E45 centre (51.6792, -36.9169) end of major axis (47.7984, -48.029) minor radius 11.3649 (52.2524, -25.1948) -> (51.9262, -25.19) ccw projected
  arc A157 (55.6424, -24.9471) -> (55.8011, -24.4169) centre (0, -8) ccw projected
  arc A158 (55.8011, -24.4169) -> (54.08, -22.9399) centre (50.4496, -28.9116) ccw projected
  line L46 (54.08, -22.9399) -> (53.105, -22.3471) projected
  ellipse E46 centre (56.9549, -24.2194) end of major axis (55.7413, -35.9269) minor radius 11.3649 (54.8093, -12.6811) -> (54.4908, -12.7517) ccw projected
  arc A159 (58.0508, -11.6583) -> (58.083, -11.1058) centre (0, -8) ccw projected
  arc A160 (58.083, -11.1058) -> (56.0676, -10.0655) centre (53.9123, -16.7135) ccw projected
  line L47 (56.0676, -10.0655) -> (54.9822, -9.7136) projected
  ellipse E47 centre (59.1601, -10.6475) end of major axis (60.6792, -22.3193) minor radius 11.3649 (54.4115, 0.085) -> (54.1178, -0.0572) ccw projected
  arc A161 (57.3297, 1.8278) -> (57.2336, 2.3728) centre (0, -8) ccw projected
  arc A162 (57.2336, 2.3728) -> (55.0326, 2.9203) centre (54.4685, -4.0456) ccw projected
  line L48 (55.0326, 2.9203) -> (53.8953, 3.0124) projected
  ellipse E48 centre (58.176, 3.0671) end of major axis (62.3459, -7.9398) minor radius 11.3649 (51.0803, 12.4152) -> (50.8273, 12.2092) ccw projected
  arc A163 (53.518, 14.784) -> (53.2988, 15.2922) centre (0, -8) ccw projected
  arc A164 (53.2988, 15.2922) -> (51.0308, 15.3173) centre (52.0884, 8.4092) ccw projected
  line L49 (51.0308, 15.3173) -> (49.9029, 15.1447) projected
  ellipse E49 centre (54.0556, 16.1851) end of major axis (60.6514, 6.4366) minor radius 11.3649 (44.9953, 23.6449) -> (44.7967, 23.386) ccw projected
  arc A165 (46.821, 26.512) -> (46.4905, 26.9559) centre (0, -8) ccw projected
  arc A166 (46.4905, 26.9559) -> (44.2779, 26.4573) centre (46.9001, 19.9793) ccw projected
  line L50 (44.2779, 26.4573) -> (43.2203, 26.0292) projected
  ellipse E50 centre (47.0211, 27.9993) end of major axis (55.6873, 20.0346) minor radius 11.3649 (36.4847, 33.1685) -> (36.3511, 32.8708) ccw projected
  arc A167 (37.5999, 36.3794) -> (37.176, 36.7351) centre (0, -8) ccw projected
  arc A168 (37.176, 36.7351) -> (35.138, 35.7397) centre (39.1835, 30.041) ccw projected
  line L51 (35.138, 35.7397) -> (34.2076, 35.0792) projected
  ellipse E51 centre (37.4516, 37.8727) end of major axis (47.721, 32.1213) minor radius 11.3649 (26.0071, 40.4728) -> (25.9458, 40.1523) ccw projected
  arc A169 (26.3518, 43.8543) -> (25.8573, 44.1026) centre (0, -8) ccw projected
  arc A170 (25.8573, 44.1026) -> (24.1038, 42.6641) centre (29.3544, 38.0519) ccw projected
  line L52 (24.1038, 42.6641) -> (23.3508, 41.8068) projected
  ellipse E52 centre (25.8631, 45.2731) end of major axis (37.1821, 42.045) minor radius 11.3649 (14.1275, 45.1638) -> (14.1417, 44.8378) ccw projected
  arc A171 (14.1017, 46.3046) -> (13.6831, 48.5337) centre (7.1148, 46.1465) ccw projected
  arc A172 (13.6831, 48.5337) -> (13.1446, 48.6613) centre (0, -8) ccw projected
  arc A173 (13.1446, 48.6613) -> (11.7701, 46.8571) centre (17.9429, 43.5802) ccw projected
  line L53 (11.7701, 46.8571) -> (11.2351, 45.8493) projected
  ellipse E53 centre (0.7968, 51.214) end of major axis (-10.7669, 53.4091) minor radius 11.3649 (11.0761, 45.5644) -> (11.2351, 45.8493) ccw projected
  point P0 (0, 0)
  dimension "d0" = 24.13
  dimension "d1" = 44.45
  dimension "d2" = 63.5
  dimension "d3" = 2.54
  dimension "d4" = 2.54
  dimension "d5" = 2.54
  dimension "d6" = 2.54
extrude "Extrusion1" add sketch "Sketch1" along normal blind 6.35 contours A58 A56 A115 | A56 A115 A58 | A115 A56 A117 A118 A116 | A116 A56 A61 | A56 A61 A116 | A117 A56 A59 | A56 A59 A117 | A118 A56 A60 | A56 A60 A118 | A57
sketch "Sketch2" plane through (0, -8, 6.35) normal (0, 0, 1) x (1, 0, 0)
  circle A0 centre (0, 22.225) radius 1.27 projected
  point P0 (0, 8)
hole "Hole1" at (0, 14.225, 6.35) direction (0, 0, -1) diameter 3.302 depth 6.35 thread size "8-32 UNC" class "2B" standard "ANSI Unified Screw Threads"
pattern_circular "Circular Pattern1" count 4 over 360 about axis through (0, -8, 0) along (0, 0, 1) of "Hole1"
sketch "Sketch3" plane through (0, -8, 6.35) normal (0, 0, 1) x (1, 0, 0)
  circle A0 centre (-22.225, 0) radius 1.651 projected
  circle A1 centre (-22.225, 0) radius 9.525
  circle A2 centre (0, 22.225) radius 1.651 projected
  circle A3 centre (0, 22.225) radius 9.525
  circle A4 centre (0, 0) radius 31.75 projected
  circle A5 centre (0, 0) radius 12.065 projected
  circle A6 centre (0, 0) radius 16.6688
  arc A7 (-20.2091, 9.3092) -> (-9.3092, 20.2091) centre (-18.2688, 18.2688) ccw
  circle A8 centre (0, -22.225) radius 1.651 projected
  circle A9 centre (22.225, 0) radius 1.651 projected
  circle A10 centre (0, -22.225) radius 9.525
  circle A11 centre (22.225, 0) radius 9.525
  circle A12 centre (0, 0) radius 16.6688
  arc A13 (-9.3092, -20.2091) -> (-20.2091, -9.3092) centre (-18.2688, -18.2688) ccw
  circle A14 centre (0, 0) radius 16.6688
  arc A15 (20.2091, -9.3092) -> (9.3092, -20.2091) centre (18.2688, -18.2688) ccw
  circle A16 centre (0, 0) radius 16.6688
  arc A17 (9.3092, 20.2091) -> (20.2091, 9.3092) centre (18.2688, 18.2688) ccw
  point P0 (0, 8)
  point P1 (9.3092, -20.2091)
  point P2 (0, -31.75)
  point P3 (31.75, 0)
  point P4 (20.2091, -9.3092)
  point P5 (0, 31.75)
  point P6 (9.3092, 20.2091)
  point P7 (-20.2091, -9.3092)
  point P8 (-31.75, 0)
  point P9 (-9.3092, -20.2091)
  dimension "d19" = 33.3375
  dimension "d22" = 360
extrude "Extrusion2" cut sketch "Sketch3" against normal blind 25.4 contours A1 A4 A3 A7 | A13 A10 A4 A1 | A4 A11 A17 A3 | A10 A15 A11 A4
properties part number "drive sprocket flange"
